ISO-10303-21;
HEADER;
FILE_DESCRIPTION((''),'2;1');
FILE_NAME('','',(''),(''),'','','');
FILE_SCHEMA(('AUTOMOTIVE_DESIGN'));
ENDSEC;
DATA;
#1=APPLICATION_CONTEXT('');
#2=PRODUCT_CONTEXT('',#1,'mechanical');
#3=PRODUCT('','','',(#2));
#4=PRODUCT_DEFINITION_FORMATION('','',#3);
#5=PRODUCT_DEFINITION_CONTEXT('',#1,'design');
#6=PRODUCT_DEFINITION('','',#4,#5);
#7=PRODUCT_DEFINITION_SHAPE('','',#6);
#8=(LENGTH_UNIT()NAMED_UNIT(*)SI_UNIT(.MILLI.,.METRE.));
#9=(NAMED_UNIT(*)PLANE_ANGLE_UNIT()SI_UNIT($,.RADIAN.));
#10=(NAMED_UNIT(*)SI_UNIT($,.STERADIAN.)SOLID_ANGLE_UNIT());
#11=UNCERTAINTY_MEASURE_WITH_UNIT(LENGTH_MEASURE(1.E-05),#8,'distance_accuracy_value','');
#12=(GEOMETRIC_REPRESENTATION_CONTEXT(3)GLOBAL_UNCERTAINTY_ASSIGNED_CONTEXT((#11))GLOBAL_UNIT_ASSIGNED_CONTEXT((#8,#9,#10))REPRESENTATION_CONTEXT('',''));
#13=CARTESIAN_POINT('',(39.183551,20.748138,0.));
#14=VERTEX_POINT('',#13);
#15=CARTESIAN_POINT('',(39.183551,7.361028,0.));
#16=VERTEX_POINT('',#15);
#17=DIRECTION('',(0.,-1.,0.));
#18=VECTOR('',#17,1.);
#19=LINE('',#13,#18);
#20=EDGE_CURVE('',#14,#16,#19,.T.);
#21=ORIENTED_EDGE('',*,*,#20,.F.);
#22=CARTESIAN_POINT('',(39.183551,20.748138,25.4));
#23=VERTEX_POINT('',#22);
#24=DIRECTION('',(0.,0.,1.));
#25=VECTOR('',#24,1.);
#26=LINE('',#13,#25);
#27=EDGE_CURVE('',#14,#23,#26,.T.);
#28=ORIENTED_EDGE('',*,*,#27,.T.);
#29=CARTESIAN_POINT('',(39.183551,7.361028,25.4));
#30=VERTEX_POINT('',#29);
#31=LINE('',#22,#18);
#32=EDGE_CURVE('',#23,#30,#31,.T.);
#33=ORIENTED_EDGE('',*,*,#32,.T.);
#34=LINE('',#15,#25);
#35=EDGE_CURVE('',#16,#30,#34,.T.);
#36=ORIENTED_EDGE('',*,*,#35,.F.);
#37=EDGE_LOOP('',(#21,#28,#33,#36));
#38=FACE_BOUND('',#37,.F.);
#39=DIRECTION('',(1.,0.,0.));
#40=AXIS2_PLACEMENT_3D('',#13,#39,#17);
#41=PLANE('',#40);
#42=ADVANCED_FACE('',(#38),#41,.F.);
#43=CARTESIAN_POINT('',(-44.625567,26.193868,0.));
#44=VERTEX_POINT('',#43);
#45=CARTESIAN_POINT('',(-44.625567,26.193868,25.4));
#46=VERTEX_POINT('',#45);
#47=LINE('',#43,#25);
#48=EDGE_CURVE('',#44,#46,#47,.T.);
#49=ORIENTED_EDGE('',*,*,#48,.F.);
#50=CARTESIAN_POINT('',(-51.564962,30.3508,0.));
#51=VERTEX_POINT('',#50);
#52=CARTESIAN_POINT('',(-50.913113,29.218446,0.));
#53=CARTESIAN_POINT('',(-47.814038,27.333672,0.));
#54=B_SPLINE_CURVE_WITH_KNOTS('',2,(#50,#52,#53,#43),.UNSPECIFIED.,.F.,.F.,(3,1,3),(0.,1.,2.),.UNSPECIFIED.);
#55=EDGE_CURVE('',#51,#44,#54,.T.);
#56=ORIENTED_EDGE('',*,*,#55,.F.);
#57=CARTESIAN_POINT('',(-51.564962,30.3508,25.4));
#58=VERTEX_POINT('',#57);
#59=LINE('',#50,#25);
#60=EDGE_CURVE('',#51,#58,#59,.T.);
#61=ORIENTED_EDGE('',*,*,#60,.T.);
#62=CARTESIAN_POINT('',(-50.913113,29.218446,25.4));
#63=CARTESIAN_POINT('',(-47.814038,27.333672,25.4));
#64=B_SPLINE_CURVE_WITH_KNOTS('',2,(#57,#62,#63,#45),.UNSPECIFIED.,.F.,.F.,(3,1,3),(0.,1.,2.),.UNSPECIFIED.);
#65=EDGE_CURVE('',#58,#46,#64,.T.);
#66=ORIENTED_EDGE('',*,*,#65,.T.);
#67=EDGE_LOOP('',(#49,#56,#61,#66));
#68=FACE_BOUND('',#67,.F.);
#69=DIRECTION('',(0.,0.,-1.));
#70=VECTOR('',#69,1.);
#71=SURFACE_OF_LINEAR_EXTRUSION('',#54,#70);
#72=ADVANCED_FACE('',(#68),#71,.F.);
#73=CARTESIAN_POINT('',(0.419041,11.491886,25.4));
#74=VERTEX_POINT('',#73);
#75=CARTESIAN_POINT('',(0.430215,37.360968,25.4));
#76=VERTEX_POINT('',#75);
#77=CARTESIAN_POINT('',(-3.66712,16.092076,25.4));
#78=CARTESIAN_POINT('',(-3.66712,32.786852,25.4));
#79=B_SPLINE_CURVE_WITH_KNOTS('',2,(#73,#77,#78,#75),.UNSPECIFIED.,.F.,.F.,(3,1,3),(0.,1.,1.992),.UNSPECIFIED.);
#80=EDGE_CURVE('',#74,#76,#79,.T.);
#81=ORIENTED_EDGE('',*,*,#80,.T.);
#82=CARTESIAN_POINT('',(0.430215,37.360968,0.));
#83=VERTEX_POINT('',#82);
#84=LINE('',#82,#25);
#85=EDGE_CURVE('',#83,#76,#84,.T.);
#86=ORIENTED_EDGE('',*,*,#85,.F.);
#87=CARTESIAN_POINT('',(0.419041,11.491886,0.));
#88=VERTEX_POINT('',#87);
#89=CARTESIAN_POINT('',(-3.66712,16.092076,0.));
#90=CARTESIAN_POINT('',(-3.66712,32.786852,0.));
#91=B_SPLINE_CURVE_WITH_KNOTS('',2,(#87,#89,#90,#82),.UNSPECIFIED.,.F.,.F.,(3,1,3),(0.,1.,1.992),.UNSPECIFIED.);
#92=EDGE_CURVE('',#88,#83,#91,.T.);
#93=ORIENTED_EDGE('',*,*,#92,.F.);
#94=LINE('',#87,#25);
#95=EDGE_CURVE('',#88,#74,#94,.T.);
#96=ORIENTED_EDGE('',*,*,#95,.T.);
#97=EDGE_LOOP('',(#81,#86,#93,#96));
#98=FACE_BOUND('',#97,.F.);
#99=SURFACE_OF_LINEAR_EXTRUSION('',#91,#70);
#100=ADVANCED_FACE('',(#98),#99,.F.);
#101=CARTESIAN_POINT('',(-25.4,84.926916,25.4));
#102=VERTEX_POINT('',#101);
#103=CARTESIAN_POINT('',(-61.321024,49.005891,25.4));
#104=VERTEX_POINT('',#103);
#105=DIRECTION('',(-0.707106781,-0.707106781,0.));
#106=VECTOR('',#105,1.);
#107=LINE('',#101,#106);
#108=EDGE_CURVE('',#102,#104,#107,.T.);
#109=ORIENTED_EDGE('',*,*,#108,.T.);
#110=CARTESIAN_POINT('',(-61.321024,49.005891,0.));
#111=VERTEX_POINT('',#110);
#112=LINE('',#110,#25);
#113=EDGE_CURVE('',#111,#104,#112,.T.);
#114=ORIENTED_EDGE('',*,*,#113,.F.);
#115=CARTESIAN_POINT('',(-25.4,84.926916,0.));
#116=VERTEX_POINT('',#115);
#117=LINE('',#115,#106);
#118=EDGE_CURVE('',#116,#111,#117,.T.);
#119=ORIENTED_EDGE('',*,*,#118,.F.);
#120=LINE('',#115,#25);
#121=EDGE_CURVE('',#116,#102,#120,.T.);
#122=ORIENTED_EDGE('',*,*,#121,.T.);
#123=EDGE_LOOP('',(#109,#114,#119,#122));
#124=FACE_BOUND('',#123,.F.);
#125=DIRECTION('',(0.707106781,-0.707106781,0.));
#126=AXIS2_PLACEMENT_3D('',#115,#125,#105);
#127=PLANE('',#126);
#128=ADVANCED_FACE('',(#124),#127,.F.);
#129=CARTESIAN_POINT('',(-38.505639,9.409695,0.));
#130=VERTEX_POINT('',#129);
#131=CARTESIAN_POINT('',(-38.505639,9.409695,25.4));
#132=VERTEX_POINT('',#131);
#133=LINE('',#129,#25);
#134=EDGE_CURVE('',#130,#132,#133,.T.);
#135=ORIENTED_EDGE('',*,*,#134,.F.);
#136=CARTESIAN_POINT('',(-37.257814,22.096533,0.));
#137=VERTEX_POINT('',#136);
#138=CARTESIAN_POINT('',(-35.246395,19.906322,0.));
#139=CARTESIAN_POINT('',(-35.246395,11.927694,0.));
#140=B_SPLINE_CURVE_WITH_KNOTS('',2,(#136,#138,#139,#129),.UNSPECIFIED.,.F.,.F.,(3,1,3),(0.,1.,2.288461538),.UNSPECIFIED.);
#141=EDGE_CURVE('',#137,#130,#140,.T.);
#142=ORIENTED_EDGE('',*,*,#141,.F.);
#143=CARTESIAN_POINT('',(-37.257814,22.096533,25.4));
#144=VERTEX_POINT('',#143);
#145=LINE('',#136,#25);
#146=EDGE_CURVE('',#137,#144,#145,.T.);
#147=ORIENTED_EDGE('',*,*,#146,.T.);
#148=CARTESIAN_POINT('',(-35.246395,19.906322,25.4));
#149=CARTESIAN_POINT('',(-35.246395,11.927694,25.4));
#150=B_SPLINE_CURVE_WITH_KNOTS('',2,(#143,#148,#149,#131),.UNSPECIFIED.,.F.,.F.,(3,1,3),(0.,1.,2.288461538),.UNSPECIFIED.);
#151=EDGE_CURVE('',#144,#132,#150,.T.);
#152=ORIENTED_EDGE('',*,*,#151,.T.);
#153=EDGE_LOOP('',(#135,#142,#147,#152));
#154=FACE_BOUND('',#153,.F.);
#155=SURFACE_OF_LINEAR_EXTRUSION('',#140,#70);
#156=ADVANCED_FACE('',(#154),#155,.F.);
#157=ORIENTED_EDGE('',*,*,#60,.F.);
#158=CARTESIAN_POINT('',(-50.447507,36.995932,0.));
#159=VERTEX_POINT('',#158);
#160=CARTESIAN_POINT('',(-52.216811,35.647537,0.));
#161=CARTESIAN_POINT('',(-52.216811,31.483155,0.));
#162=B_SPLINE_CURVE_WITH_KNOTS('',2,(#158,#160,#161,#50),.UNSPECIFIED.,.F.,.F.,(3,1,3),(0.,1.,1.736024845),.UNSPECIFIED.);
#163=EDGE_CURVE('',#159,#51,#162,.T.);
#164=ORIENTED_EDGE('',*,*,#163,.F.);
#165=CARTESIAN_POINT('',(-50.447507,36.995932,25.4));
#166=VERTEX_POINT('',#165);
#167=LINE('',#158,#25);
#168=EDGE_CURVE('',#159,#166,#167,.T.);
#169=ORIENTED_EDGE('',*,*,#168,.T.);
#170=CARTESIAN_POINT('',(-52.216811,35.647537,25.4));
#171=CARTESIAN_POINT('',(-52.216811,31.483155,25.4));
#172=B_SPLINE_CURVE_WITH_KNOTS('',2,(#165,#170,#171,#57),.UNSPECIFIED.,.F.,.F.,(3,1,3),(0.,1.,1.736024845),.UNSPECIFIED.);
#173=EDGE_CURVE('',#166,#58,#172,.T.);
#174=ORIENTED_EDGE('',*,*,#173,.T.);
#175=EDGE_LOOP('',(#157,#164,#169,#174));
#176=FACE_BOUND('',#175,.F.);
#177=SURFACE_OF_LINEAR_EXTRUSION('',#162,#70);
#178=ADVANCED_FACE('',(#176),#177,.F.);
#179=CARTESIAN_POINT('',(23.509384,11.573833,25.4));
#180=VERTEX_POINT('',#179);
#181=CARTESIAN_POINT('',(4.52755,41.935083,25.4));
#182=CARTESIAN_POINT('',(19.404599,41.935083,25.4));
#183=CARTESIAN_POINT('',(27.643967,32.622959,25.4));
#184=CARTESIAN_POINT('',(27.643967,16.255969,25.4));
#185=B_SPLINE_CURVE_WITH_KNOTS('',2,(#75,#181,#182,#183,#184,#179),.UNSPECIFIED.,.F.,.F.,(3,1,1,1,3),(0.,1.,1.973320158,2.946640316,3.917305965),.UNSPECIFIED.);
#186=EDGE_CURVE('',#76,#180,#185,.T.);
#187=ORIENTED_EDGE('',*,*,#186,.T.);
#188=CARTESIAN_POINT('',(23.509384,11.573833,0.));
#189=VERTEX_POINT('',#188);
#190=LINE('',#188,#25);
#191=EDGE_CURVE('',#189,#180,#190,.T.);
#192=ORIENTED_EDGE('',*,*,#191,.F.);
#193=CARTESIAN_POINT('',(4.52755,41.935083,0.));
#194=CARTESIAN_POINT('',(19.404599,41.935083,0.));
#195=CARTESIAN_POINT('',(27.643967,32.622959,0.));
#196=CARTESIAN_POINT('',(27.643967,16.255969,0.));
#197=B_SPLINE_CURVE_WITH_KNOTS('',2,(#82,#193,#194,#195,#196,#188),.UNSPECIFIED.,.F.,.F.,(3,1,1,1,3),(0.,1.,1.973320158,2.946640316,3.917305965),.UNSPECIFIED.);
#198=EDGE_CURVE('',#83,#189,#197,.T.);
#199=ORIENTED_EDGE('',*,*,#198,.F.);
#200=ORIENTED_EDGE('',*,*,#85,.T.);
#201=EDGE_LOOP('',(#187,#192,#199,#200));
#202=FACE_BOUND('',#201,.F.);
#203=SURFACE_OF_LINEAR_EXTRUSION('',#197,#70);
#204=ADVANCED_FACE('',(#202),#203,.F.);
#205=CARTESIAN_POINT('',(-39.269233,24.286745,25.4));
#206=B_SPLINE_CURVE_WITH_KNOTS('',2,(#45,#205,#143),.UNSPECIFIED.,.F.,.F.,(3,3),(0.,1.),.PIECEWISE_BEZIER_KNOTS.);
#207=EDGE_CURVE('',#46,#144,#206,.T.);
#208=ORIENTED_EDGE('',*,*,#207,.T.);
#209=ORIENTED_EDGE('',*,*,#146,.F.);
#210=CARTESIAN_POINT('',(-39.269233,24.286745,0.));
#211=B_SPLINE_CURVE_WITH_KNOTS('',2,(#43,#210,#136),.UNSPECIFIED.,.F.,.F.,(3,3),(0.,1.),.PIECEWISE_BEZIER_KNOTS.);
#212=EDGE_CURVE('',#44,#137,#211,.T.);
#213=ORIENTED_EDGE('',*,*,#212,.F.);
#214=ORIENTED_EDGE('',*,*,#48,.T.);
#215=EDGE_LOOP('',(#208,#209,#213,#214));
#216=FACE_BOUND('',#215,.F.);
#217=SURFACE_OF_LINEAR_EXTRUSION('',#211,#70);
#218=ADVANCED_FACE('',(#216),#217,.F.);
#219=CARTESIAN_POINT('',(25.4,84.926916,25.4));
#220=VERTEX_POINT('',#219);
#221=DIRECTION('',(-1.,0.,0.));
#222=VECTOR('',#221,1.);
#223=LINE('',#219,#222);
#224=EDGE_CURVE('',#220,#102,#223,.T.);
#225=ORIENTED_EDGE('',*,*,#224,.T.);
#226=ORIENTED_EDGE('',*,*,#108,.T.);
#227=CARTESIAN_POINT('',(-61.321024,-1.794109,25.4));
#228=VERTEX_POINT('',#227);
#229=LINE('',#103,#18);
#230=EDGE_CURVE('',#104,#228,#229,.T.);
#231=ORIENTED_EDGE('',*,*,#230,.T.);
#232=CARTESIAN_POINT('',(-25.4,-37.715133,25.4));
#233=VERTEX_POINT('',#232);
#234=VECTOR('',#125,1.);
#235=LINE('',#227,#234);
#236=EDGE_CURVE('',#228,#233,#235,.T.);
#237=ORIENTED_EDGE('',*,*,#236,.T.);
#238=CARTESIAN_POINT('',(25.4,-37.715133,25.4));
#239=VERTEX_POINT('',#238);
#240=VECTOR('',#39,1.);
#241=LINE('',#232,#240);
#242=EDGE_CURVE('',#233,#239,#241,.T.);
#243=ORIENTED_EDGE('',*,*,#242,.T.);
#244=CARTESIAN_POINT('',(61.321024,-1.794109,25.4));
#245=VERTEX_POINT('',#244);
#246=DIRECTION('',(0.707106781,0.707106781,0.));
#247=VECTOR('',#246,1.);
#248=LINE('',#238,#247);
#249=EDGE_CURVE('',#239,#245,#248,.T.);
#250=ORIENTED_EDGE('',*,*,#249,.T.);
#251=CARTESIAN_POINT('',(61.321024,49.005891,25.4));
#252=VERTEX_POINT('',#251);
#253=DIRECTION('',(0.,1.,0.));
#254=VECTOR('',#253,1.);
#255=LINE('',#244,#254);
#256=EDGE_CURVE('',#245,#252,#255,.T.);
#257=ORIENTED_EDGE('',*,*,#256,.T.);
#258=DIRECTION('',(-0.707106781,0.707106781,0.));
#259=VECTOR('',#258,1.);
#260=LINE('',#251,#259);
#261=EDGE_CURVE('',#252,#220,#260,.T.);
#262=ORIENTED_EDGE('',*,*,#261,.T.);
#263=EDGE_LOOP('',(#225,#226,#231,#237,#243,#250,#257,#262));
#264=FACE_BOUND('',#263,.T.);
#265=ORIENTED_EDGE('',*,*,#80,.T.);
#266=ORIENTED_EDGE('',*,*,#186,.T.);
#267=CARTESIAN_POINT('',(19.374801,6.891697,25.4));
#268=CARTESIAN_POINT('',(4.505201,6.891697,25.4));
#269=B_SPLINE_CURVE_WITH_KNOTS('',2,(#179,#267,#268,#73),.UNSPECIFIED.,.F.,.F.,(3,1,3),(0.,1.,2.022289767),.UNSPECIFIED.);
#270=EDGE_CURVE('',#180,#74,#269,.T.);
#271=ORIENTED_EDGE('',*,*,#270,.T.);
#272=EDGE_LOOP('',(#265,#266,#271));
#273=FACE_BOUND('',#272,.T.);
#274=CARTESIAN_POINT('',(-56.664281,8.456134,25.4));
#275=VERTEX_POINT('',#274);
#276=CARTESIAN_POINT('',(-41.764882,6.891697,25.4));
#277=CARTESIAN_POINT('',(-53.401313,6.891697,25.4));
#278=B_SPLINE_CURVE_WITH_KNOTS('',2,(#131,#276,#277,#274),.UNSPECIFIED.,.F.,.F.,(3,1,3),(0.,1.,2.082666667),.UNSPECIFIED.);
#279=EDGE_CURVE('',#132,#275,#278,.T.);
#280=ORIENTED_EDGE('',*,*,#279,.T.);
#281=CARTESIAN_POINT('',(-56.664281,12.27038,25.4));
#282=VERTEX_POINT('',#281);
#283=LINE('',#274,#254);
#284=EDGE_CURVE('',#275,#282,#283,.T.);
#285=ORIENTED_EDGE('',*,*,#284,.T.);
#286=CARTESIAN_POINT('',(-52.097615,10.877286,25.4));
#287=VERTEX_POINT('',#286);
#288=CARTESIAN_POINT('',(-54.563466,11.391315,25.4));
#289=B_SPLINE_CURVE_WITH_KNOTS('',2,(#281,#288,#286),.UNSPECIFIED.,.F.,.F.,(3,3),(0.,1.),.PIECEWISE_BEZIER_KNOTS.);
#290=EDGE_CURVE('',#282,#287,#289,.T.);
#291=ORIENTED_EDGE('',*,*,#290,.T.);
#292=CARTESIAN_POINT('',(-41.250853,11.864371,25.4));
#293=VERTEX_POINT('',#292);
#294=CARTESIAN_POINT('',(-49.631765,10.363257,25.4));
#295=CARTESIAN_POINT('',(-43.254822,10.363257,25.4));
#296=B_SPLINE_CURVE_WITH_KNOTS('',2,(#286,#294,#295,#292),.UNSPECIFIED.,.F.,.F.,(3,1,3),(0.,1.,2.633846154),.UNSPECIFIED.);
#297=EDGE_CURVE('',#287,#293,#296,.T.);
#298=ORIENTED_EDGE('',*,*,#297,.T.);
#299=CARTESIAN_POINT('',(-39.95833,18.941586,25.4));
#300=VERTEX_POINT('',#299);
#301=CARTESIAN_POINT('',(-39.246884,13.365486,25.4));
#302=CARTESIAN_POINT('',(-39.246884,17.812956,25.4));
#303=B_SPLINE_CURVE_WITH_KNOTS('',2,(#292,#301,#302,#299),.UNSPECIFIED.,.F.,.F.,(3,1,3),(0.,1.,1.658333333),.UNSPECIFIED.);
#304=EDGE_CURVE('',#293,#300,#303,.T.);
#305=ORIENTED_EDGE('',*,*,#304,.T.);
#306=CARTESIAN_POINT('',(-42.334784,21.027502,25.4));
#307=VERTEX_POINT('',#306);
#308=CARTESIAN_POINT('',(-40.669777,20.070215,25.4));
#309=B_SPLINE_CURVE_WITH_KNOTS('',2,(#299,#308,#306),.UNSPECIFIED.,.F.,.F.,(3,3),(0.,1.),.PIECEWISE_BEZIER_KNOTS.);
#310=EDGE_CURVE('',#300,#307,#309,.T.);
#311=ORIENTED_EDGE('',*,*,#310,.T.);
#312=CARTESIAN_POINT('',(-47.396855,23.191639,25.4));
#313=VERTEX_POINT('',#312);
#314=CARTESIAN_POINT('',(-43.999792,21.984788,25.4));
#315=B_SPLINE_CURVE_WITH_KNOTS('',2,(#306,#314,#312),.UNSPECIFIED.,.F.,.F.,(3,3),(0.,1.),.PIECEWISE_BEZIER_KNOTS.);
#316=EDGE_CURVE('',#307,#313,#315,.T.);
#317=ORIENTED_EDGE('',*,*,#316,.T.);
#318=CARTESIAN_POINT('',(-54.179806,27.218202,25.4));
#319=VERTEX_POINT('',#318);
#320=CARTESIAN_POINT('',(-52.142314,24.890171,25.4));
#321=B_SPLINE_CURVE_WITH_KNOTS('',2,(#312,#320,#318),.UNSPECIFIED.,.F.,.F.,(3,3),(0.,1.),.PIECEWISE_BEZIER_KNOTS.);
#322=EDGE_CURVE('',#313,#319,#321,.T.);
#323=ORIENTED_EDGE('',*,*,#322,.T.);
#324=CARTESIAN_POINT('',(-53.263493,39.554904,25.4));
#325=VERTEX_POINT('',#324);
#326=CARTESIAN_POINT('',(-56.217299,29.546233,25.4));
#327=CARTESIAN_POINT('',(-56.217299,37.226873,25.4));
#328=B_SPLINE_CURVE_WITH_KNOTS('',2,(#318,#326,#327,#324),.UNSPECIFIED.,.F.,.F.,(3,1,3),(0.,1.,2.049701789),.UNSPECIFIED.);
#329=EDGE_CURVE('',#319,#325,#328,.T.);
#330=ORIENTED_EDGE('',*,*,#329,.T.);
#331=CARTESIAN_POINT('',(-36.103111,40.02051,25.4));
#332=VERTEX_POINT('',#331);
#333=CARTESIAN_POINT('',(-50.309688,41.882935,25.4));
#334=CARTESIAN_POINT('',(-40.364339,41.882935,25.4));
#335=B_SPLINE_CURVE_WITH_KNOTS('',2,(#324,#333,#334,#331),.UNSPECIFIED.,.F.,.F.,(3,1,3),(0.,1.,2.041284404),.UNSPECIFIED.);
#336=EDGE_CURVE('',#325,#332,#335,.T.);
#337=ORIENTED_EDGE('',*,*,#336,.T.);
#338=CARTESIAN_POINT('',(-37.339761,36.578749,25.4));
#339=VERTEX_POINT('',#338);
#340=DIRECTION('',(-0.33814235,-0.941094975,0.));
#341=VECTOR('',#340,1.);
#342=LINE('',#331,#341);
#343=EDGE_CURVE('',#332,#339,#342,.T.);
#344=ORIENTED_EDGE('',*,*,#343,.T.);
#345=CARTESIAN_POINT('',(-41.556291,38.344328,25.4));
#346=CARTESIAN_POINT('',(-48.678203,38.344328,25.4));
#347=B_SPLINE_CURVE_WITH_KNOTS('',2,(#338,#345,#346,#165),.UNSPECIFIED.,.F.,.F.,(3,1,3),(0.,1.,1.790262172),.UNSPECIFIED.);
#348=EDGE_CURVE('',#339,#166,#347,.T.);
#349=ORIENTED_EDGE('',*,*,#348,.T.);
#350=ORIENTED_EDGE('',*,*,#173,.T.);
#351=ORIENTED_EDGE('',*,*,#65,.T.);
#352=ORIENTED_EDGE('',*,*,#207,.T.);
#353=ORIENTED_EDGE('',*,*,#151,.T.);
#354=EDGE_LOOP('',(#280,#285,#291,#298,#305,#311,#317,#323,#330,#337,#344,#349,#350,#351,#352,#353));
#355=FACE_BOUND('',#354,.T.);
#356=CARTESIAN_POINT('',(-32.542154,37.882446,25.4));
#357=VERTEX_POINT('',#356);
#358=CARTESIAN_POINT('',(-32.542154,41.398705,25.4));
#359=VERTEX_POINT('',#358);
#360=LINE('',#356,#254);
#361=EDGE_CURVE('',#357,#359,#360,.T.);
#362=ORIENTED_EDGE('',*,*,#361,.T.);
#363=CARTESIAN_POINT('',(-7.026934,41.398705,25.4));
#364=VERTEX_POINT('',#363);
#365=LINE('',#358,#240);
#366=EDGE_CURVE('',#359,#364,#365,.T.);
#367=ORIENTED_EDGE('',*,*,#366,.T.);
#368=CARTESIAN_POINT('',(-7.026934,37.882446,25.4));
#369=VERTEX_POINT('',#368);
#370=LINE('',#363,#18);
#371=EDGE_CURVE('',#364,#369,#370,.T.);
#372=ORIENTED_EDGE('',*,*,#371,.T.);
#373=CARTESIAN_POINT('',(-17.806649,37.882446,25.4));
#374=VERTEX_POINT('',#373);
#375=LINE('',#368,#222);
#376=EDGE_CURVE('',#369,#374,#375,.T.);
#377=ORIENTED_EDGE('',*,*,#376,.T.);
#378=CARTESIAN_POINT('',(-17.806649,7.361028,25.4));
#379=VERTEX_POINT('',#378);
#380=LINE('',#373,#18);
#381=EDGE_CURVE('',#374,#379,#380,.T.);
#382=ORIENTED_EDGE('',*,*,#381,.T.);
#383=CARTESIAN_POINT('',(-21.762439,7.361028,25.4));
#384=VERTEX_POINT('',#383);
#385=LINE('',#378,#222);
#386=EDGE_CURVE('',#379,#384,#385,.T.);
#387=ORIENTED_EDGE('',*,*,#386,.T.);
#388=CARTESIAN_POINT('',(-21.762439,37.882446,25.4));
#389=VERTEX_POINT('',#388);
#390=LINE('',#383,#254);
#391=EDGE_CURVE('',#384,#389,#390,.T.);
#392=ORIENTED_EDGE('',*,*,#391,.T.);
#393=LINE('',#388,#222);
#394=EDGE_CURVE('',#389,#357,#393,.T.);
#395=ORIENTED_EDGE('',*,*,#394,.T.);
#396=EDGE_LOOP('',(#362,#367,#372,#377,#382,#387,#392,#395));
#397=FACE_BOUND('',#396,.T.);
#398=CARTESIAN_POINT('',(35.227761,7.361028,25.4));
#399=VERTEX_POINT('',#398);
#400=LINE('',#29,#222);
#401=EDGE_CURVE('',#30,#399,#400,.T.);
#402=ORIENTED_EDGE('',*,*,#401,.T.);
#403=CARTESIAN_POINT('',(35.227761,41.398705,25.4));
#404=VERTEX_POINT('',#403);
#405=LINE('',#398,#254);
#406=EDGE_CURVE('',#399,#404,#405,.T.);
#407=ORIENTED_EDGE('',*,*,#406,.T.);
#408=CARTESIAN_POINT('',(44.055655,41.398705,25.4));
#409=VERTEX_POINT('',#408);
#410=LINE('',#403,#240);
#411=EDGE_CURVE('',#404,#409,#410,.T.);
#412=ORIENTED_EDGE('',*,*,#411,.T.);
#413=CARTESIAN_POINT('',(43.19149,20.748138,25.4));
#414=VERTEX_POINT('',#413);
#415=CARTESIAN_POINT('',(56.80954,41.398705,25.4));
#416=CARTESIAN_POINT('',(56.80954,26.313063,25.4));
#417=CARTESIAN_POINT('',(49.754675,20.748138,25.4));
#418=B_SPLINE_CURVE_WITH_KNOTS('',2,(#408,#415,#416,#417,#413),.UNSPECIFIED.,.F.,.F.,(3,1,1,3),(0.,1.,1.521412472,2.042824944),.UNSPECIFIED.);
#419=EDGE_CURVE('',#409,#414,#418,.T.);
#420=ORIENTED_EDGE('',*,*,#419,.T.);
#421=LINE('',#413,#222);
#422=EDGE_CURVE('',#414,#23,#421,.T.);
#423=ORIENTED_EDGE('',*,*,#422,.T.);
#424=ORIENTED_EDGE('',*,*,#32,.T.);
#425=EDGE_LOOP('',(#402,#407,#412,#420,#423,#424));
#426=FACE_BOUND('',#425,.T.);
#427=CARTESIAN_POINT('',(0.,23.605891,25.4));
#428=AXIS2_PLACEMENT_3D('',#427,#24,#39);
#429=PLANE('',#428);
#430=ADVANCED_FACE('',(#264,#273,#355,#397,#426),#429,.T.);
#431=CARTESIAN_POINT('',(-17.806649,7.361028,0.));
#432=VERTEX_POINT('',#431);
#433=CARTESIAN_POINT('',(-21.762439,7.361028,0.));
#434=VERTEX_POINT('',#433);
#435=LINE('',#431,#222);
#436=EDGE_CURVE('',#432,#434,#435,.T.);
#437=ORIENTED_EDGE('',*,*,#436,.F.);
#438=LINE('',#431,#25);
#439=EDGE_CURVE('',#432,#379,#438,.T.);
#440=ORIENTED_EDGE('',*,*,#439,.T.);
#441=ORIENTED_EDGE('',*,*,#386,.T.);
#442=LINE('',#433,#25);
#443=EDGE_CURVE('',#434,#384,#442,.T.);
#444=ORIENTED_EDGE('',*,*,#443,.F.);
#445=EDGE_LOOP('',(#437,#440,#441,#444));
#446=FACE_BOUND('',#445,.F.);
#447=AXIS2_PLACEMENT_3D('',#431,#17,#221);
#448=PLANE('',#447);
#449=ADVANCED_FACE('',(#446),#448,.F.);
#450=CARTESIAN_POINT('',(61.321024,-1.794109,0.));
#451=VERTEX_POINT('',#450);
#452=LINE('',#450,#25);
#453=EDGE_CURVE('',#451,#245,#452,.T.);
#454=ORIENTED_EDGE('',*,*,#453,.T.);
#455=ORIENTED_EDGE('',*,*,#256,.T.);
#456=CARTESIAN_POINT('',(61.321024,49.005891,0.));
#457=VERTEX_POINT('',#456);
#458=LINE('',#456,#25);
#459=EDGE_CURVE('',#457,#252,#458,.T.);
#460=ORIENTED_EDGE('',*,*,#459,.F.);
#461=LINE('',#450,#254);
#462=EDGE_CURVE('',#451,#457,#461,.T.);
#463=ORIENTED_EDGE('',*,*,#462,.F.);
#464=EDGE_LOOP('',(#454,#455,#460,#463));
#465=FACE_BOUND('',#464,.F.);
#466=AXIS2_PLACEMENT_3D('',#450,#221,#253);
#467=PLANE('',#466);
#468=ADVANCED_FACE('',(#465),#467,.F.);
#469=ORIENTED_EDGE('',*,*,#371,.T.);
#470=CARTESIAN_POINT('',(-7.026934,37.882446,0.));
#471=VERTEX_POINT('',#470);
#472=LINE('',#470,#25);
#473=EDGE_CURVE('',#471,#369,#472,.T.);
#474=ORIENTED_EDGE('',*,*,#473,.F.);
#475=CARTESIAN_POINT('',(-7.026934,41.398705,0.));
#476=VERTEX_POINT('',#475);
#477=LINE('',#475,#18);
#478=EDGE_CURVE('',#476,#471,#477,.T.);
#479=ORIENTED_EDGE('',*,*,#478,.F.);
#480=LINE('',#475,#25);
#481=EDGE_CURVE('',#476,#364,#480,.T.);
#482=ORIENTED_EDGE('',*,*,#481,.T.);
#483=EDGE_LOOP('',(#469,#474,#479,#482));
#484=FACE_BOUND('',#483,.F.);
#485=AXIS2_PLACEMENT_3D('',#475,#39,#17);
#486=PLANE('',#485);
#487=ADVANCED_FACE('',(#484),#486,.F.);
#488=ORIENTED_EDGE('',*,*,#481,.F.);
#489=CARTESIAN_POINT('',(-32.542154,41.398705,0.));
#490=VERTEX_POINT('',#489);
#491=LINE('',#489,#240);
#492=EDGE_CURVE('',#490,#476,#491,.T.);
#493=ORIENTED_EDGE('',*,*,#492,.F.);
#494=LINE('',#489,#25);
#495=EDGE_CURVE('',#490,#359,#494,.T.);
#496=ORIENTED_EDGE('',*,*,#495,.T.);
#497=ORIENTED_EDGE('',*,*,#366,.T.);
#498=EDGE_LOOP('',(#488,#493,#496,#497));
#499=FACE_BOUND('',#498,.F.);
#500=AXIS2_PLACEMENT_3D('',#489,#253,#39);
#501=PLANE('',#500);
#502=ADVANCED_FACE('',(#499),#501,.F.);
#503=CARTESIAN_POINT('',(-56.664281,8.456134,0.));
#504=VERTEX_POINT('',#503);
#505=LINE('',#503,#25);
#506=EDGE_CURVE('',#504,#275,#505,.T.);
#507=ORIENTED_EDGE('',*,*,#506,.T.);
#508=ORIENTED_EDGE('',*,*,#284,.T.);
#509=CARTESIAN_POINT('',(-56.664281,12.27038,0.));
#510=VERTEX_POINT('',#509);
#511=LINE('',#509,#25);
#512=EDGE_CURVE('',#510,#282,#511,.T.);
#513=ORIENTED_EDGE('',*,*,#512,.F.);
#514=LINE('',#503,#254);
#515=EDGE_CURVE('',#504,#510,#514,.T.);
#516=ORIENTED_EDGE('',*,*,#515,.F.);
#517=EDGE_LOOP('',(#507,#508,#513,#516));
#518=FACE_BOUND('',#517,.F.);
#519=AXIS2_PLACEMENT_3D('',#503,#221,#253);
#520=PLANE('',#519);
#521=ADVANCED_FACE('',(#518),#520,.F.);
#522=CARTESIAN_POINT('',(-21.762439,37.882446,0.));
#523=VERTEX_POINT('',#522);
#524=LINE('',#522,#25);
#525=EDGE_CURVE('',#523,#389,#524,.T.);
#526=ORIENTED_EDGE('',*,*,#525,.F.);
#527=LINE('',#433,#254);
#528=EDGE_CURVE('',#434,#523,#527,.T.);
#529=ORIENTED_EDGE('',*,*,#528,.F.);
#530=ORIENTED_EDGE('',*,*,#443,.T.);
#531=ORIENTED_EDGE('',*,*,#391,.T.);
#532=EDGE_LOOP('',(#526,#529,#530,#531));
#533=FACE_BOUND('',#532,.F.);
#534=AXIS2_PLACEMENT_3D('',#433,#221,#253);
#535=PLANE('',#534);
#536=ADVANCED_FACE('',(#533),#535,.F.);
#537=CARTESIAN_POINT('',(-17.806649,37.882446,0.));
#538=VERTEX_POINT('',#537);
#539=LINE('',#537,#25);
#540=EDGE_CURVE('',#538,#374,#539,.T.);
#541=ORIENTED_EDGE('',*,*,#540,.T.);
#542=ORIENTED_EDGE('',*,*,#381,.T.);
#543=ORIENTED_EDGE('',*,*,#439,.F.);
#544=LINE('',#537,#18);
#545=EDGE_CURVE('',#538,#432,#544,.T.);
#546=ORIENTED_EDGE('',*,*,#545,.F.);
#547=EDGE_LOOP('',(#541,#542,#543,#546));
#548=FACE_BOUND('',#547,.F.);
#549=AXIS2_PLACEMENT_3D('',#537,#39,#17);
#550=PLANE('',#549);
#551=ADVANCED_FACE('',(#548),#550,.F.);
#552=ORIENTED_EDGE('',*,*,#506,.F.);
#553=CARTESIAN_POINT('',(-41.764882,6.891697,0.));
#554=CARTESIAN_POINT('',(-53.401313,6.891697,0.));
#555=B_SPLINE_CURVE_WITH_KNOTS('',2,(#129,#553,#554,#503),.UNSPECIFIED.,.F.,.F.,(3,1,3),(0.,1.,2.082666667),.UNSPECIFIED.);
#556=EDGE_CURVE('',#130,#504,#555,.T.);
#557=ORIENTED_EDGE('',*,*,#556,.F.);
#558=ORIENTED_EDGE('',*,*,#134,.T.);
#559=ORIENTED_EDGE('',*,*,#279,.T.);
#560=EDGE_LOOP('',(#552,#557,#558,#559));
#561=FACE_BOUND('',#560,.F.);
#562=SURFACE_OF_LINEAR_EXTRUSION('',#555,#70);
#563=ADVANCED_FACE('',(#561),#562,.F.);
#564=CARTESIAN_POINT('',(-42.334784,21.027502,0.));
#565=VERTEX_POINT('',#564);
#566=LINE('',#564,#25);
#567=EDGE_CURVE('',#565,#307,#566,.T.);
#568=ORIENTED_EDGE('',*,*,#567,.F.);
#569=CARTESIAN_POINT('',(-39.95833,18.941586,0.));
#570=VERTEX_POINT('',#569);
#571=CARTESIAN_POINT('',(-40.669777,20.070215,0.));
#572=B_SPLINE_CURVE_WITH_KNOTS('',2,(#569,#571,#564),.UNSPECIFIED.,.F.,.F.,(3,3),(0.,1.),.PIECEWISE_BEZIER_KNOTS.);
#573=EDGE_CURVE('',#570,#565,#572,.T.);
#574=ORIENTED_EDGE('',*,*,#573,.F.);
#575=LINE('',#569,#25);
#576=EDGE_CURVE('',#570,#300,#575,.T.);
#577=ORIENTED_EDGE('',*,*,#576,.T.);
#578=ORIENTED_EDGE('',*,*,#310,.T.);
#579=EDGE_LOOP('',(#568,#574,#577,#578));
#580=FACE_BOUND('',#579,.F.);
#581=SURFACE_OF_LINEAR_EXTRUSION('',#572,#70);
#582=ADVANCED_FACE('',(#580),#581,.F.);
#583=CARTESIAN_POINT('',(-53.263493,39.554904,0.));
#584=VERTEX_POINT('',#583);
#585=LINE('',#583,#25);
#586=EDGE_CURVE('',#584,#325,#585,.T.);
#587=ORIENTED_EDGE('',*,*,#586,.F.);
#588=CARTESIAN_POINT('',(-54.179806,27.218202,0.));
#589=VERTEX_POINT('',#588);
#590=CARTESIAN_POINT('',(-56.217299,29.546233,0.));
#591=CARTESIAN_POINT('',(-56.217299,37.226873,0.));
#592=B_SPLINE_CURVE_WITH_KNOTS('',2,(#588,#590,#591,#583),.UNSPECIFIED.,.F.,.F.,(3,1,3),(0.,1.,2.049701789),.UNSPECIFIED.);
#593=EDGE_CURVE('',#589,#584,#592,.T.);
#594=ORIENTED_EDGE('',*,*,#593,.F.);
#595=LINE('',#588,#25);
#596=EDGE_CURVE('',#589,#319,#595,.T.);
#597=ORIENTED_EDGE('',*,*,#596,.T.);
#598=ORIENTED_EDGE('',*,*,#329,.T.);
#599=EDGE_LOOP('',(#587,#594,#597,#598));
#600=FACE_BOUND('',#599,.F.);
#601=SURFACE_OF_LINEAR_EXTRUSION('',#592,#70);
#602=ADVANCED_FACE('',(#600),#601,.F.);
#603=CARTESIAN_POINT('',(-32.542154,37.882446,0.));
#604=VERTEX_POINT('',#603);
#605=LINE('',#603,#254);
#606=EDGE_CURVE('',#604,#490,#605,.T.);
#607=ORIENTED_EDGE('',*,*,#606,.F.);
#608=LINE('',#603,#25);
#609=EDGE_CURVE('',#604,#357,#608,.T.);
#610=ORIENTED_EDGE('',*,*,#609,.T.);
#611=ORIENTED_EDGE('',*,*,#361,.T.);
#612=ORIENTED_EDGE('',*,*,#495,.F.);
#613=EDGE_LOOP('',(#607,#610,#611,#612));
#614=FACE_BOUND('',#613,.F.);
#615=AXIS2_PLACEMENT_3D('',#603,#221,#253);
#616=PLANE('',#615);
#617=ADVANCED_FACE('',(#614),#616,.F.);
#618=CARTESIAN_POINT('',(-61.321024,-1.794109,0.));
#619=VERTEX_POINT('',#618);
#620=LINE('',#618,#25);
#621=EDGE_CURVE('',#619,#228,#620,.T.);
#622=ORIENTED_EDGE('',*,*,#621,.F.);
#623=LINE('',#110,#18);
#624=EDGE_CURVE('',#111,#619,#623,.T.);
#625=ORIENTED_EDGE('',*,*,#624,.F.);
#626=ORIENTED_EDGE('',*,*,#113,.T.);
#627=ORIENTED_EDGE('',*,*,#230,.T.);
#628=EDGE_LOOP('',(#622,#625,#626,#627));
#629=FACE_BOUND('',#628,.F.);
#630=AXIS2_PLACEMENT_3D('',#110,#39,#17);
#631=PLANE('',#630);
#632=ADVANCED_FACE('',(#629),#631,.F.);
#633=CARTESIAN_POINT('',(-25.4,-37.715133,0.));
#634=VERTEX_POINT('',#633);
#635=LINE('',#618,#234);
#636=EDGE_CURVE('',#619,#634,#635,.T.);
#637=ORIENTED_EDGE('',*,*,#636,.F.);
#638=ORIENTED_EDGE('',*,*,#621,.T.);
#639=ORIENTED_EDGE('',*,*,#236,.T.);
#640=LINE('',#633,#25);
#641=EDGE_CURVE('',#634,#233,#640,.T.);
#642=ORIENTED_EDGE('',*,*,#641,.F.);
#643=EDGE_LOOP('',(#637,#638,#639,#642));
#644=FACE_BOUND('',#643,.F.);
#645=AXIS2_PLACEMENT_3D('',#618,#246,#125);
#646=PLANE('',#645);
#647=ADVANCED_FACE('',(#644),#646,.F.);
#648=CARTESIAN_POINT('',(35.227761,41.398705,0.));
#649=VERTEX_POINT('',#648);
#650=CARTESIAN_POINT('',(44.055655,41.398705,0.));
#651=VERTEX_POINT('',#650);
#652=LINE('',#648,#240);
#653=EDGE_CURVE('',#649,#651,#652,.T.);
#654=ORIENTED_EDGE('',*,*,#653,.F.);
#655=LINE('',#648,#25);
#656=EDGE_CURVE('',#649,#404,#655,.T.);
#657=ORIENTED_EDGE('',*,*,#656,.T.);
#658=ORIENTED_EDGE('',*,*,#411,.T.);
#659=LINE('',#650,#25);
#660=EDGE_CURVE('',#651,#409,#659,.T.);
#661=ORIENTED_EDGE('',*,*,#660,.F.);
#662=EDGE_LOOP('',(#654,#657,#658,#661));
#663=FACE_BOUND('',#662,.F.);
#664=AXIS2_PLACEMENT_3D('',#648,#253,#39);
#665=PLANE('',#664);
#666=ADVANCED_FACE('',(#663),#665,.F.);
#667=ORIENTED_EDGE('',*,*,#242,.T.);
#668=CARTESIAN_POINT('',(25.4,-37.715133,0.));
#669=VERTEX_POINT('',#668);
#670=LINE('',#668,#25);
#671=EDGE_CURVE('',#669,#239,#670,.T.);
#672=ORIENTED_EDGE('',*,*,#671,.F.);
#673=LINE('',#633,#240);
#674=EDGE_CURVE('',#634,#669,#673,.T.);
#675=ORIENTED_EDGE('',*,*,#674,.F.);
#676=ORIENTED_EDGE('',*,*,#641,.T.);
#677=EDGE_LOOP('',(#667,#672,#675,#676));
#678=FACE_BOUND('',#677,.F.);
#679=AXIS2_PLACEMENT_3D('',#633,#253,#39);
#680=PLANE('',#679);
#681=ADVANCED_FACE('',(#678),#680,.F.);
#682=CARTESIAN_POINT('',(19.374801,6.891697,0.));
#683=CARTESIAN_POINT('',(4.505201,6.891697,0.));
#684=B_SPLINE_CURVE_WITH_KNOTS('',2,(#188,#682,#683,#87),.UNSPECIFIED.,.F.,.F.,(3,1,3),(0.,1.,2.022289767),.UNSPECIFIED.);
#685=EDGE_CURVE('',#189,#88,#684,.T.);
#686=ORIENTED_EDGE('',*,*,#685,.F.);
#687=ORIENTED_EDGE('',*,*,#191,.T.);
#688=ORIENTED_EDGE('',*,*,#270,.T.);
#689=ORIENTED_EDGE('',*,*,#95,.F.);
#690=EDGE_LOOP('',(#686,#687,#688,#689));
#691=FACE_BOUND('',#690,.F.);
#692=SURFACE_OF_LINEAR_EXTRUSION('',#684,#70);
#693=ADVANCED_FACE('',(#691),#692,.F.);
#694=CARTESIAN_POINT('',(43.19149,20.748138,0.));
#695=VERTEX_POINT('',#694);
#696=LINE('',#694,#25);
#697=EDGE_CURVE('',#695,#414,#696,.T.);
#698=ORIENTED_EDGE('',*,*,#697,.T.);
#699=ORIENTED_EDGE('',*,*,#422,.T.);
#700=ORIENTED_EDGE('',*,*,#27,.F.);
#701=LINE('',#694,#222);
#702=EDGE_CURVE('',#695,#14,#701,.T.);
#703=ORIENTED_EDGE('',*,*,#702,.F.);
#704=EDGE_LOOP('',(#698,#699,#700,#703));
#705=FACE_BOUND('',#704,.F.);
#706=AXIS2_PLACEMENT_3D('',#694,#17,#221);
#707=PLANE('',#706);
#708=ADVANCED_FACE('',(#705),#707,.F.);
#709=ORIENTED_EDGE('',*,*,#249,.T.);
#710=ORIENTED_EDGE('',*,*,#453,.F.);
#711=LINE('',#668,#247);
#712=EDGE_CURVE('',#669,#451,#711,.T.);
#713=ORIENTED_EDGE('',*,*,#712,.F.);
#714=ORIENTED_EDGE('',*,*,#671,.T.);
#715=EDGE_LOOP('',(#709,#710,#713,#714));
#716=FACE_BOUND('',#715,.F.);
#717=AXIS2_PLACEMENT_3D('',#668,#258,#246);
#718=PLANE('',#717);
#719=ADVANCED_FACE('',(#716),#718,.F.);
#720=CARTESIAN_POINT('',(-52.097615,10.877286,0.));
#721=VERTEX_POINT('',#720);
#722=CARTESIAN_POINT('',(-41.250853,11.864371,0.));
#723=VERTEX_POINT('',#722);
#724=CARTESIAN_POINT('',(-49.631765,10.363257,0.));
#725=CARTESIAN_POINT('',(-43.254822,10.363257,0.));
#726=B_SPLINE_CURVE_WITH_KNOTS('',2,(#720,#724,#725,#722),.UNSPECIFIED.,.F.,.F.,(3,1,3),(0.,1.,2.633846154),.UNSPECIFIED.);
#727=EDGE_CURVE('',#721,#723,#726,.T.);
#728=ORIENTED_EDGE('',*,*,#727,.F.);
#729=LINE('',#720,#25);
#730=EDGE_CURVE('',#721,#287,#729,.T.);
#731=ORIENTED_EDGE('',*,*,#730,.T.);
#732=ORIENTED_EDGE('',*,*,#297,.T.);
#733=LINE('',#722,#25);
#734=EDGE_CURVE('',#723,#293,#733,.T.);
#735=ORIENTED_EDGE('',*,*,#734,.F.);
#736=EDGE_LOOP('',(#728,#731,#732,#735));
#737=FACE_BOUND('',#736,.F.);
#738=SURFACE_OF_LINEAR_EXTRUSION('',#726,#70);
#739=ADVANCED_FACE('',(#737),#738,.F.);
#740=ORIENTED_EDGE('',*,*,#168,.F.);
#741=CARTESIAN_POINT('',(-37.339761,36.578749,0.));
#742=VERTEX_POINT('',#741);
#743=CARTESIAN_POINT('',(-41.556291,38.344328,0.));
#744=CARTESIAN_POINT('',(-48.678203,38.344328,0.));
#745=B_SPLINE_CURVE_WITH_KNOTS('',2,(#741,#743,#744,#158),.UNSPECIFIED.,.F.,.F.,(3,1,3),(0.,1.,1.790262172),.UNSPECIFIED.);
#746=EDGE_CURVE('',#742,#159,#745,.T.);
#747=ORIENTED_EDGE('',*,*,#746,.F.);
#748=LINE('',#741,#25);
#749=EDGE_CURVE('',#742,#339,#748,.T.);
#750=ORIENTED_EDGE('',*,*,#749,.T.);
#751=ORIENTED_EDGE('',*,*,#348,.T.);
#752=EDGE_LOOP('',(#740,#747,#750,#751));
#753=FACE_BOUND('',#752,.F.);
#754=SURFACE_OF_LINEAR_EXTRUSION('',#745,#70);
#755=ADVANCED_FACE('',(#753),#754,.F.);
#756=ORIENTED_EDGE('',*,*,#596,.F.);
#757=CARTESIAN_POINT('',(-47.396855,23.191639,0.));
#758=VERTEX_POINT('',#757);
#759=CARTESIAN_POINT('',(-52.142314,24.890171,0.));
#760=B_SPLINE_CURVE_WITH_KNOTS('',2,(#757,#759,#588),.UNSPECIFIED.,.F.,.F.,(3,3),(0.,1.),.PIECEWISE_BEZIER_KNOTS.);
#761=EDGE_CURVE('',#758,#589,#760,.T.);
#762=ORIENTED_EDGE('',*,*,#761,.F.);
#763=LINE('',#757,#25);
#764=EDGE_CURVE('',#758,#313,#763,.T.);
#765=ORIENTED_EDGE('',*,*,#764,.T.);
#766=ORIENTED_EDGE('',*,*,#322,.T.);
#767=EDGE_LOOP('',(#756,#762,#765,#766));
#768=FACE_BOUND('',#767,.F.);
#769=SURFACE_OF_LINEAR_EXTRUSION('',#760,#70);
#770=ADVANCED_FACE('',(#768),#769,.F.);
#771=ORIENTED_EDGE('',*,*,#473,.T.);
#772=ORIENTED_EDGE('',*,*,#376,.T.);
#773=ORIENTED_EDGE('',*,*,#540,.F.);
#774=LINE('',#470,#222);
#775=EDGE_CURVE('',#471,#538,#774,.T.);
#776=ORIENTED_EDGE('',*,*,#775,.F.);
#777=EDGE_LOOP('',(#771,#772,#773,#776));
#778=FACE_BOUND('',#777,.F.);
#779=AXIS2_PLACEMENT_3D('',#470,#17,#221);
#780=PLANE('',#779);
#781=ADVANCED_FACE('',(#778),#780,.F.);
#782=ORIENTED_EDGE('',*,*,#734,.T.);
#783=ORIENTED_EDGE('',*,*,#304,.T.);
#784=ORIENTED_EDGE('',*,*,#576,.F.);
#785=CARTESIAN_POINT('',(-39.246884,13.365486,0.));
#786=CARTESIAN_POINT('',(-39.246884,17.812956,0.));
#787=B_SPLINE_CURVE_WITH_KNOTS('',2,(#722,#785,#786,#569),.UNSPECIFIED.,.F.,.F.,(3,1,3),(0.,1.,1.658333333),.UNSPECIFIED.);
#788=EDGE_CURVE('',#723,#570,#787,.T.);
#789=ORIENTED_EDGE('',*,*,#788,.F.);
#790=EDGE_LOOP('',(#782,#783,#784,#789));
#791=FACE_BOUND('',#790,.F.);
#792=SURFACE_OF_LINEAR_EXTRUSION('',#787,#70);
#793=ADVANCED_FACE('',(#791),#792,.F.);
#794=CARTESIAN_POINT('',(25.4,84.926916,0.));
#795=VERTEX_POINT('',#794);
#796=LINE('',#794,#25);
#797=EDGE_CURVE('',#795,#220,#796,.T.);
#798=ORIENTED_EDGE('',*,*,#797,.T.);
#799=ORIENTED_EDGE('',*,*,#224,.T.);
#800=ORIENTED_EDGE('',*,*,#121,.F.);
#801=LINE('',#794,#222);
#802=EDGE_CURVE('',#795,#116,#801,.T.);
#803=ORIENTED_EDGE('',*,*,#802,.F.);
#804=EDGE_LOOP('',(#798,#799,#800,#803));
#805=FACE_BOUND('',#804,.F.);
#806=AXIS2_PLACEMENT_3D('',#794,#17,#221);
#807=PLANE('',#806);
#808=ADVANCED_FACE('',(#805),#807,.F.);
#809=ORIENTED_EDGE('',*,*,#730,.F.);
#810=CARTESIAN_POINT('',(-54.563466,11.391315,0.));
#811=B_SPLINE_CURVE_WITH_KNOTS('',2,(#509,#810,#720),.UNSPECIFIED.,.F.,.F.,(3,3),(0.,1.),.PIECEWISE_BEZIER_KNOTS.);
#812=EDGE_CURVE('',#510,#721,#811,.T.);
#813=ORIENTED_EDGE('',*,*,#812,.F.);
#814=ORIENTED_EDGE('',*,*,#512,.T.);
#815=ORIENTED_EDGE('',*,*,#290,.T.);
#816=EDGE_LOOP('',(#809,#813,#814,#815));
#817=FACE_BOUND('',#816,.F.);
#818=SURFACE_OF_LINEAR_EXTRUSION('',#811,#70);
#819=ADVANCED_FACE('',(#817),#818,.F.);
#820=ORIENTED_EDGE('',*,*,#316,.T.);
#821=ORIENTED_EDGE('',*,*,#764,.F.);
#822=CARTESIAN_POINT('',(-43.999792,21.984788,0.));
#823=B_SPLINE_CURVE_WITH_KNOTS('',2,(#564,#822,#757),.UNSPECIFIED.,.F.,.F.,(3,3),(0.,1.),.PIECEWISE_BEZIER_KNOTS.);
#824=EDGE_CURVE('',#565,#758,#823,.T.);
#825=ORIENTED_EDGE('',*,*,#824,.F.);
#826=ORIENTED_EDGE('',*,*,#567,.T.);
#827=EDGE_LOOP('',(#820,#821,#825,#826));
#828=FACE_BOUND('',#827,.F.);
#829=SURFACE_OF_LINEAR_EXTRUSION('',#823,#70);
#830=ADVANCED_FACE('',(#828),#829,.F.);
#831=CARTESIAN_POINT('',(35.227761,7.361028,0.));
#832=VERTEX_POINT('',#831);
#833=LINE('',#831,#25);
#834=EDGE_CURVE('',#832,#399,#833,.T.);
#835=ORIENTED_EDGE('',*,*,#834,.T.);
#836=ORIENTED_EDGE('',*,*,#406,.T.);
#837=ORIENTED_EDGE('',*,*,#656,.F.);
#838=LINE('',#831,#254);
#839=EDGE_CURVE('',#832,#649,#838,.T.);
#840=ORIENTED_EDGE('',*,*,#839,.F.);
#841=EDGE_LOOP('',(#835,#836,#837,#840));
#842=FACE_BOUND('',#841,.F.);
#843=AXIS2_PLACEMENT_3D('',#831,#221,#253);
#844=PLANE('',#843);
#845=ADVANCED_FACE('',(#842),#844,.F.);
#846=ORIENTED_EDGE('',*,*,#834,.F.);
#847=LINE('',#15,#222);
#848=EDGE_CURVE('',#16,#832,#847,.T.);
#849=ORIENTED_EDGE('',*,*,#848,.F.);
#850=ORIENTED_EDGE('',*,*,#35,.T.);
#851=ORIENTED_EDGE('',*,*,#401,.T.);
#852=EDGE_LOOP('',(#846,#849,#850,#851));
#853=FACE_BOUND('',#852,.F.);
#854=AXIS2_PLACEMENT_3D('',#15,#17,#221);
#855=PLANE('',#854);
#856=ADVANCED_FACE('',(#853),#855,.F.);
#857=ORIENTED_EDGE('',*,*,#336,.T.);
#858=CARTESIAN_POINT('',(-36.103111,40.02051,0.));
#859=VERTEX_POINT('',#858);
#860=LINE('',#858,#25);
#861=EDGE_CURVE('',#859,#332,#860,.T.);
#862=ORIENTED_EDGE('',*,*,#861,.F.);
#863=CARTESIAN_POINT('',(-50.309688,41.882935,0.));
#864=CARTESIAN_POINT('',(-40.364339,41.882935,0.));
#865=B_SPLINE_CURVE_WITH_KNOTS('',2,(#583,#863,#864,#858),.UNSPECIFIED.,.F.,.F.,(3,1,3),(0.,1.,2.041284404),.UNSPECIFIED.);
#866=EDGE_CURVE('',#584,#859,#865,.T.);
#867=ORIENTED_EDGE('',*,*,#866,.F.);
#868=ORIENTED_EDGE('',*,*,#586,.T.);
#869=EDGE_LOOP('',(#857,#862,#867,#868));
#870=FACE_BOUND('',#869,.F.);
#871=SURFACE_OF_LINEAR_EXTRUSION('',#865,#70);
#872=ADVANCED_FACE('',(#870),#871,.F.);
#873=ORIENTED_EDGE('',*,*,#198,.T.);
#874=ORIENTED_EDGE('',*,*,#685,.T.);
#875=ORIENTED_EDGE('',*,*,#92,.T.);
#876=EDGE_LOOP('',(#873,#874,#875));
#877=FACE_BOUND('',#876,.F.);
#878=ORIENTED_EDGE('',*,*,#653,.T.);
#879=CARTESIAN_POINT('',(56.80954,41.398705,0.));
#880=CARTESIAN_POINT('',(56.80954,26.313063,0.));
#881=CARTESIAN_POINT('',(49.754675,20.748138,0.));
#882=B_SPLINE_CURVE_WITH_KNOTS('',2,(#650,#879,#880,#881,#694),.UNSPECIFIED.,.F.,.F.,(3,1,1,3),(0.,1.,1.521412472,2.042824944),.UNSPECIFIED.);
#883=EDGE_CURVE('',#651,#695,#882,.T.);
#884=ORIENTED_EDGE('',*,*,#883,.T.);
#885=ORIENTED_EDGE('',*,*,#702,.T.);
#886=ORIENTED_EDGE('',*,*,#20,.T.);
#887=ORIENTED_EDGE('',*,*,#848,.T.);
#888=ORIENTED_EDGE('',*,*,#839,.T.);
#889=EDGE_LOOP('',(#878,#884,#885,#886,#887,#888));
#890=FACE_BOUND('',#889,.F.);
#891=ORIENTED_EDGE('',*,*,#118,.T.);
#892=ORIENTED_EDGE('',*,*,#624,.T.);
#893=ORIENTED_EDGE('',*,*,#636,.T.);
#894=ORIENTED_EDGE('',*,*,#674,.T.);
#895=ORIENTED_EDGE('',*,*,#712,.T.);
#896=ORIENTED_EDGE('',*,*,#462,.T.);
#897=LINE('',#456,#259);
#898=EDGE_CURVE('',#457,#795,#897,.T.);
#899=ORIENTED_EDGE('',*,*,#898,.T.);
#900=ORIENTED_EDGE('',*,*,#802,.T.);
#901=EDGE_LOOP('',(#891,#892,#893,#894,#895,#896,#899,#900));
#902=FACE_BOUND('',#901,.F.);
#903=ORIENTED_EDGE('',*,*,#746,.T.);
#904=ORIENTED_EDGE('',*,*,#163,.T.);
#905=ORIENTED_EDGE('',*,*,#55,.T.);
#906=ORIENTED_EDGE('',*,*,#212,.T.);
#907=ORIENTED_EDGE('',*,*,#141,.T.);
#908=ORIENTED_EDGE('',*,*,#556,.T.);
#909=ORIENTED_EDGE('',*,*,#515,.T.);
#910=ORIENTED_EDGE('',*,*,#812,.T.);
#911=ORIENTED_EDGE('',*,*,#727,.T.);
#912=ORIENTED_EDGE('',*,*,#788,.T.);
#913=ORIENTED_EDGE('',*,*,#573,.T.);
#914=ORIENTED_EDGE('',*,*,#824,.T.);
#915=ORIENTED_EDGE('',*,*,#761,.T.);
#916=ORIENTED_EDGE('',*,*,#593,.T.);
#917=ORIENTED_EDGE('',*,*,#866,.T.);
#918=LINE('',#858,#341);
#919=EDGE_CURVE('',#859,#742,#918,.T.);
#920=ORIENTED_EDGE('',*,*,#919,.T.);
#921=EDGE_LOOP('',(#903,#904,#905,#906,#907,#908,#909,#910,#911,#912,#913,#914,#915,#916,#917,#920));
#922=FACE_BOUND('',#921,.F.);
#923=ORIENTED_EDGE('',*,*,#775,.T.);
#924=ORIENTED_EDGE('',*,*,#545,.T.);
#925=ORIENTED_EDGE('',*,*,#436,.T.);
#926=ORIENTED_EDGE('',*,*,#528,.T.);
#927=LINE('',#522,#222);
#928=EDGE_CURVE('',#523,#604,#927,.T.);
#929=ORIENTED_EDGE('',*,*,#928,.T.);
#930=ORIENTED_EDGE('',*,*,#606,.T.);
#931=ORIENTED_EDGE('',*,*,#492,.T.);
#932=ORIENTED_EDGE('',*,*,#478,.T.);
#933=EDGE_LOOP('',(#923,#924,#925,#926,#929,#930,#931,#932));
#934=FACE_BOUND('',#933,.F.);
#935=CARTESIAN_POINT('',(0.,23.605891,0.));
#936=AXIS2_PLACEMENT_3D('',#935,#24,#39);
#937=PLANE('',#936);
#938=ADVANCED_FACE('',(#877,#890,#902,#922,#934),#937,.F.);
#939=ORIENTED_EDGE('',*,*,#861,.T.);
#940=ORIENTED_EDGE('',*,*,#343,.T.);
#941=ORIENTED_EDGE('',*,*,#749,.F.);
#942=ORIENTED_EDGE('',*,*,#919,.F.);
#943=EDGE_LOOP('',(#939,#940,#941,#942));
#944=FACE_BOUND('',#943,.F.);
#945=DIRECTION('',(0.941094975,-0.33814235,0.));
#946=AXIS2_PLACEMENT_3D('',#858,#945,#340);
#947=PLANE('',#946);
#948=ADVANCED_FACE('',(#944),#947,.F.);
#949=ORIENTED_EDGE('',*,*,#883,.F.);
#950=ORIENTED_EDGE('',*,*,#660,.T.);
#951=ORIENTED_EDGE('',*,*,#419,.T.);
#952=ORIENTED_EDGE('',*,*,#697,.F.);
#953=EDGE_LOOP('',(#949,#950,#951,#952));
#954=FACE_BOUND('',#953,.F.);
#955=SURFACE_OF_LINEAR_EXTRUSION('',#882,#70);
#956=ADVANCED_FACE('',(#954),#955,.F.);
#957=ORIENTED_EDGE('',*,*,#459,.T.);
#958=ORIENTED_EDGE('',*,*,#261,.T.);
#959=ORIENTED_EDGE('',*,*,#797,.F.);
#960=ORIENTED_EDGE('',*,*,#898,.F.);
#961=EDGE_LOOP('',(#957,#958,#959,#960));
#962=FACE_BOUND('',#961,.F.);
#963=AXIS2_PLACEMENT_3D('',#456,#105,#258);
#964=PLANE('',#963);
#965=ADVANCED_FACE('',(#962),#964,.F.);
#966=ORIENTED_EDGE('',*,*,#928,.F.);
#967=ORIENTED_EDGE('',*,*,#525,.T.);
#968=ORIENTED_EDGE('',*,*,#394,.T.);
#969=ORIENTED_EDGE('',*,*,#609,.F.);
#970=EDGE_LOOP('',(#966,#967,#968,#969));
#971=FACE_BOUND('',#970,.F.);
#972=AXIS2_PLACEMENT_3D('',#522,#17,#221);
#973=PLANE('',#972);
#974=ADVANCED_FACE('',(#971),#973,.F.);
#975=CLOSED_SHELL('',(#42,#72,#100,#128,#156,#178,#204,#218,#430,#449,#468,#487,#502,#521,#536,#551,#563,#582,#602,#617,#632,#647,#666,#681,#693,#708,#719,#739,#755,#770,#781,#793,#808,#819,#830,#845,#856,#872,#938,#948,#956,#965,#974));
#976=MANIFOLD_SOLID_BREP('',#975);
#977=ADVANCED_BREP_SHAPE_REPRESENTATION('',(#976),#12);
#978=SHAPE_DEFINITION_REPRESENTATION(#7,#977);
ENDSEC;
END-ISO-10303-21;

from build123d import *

# Parameters (mm, degrees)
F1_DEPTH = 25.4


with BuildPart() as f1:
    # F0 (on Top) → F1 (new body)
    with BuildSketch(Plane.XY):
        Polygon((-25.4, -37.7151333554), (25.4, -37.7151333554), (61.3210244843, -1.7941088711), (61.3210244843, 49.0058911289), (25.4, 84.9269156132), (-25.4, 84.9269156132), (-61.3210244843, 49.0058911289), (-61.3210244843, -1.7941088711), align=None)
        with BuildLine():
            add(Edge.make_bspline(
                [(-37.2578142017, 22.0965334461), (-35.2463953643, 19.9063218232), (-35.2463953643, 16.4198625051)],
                knots=[0, 0, 0, 1, 1, 1], degree=2))
            add(Edge.make_bspline(
                [(-35.2463953643, 16.4198625051), (-35.2463953643, 11.9276937683), (-38.5056388508, 9.4096953719)],
                knots=[0, 0, 0, 1, 1, 1], degree=2))
            add(Edge.make_bspline(
                [(-38.5056388508, 9.4096953719), (-41.7648823372, 6.8916969755), (-47.3521568855, 6.8916969755)],
                knots=[0, 0, 0, 1, 1, 1], degree=2))
            add(Edge.make_bspline(
                [(-47.3521568855, 6.8916969755), (-53.4013127963, 6.8916969755), (-56.6642811325, 8.456133849)],
                knots=[0, 0, 0, 1, 1, 1], degree=2))
            Line((-56.6642811325, 8.456133849), (-56.6642811325, 12.2703799406))
            add(Edge.make_bspline(
                [(-56.6642811325, 12.2703799406), (-54.5634659023, 11.3913154117), (-52.0976154017, 10.8772861533)],
                knots=[0, 0, 0, 1, 1, 1], degree=2))
            add(Edge.make_bspline(
                [(-52.0976154017, 10.8772861533), (-49.6317649011, 10.3632568948), (-47.2106125969, 10.3632568948)],
                knots=[0, 0, 0, 1, 1, 1], degree=2))
            add(Edge.make_bspline(
                [(-47.2106125969, 10.3632568948), (-43.2548222168, 10.3632568948), (-41.2508530788, 11.8643713235)],
                knots=[0, 0, 0, 1, 1, 1], degree=2))
            add(Edge.make_bspline(
                [(-41.2508530788, 11.8643713235), (-39.2468839409, 13.3654857521), (-39.2468839409, 16.0473775352)],
                knots=[0, 0, 0, 1, 1, 1], degree=2))
            add(Edge.make_bspline(
                [(-39.2468839409, 16.0473775352), (-39.2468839409, 17.8129562924), (-39.9583302333, 18.9415857512)],
                knots=[0, 0, 0, 1, 1, 1], degree=2))
            add(Edge.make_bspline(
                [(-39.9583302333, 18.9415857512), (-40.6697765258, 20.0702152099), (-42.3347843412, 21.0275015825)],
                knots=[0, 0, 0, 1, 1, 1], degree=2))
            add(Edge.make_bspline(
                [(-42.3347843412, 21.0275015825), (-43.9997921565, 21.9847879551), (-47.3968550818, 23.1916392575)],
                knots=[0, 0, 0, 1, 1, 1], degree=2))
            add(Edge.make_bspline(
                [(-47.3968550818, 23.1916392575), (-52.1423135981, 24.8901707202), (-54.1798063834, 27.2182017819)],
                knots=[0, 0, 0, 1, 1, 1], degree=2))
            add(Edge.make_bspline(
                [(-54.1798063834, 27.2182017819), (-56.2172991686, 29.5462328437), (-56.2172991686, 33.2934316407)],
                knots=[0, 0, 0, 1, 1, 1], degree=2))
            add(Edge.make_bspline(
                [(-56.2172991686, 33.2934316407), (-56.2172991686, 37.2268729226), (-53.2634933575, 39.5549039844)],
                knots=[0, 0, 0, 1, 1, 1], degree=2))
            add(Edge.make_bspline(
                [(-53.2634933575, 39.5549039844), (-50.3096875463, 41.8829350461), (-45.4375841403, 41.8829350461)],
                knots=[0, 0, 0, 1, 1, 1], degree=2))
            add(Edge.make_bspline(
                [(-45.4375841403, 41.8829350461), (-40.3643388505, 41.8829350461), (-36.1031107951, 40.0205101967)],
                knots=[0, 0, 0, 1, 1, 1], degree=2))
            Line((-36.1031107951, 40.0205101967), (-37.3397608951, 36.578749075))
            add(Edge.make_bspline(
                [(-37.3397608951, 36.578749075), (-41.5562907541, 38.3443278323), (-45.5344302324, 38.3443278323)],
                knots=[0, 0, 0, 1, 1, 1], degree=2))
            add(Edge.make_bspline(
                [(-45.5344302324, 38.3443278323), (-48.6782033782, 38.3443278323), (-50.4475069852, 36.9959322413)],
                knots=[0, 0, 0, 1, 1, 1], degree=2))
            add(Edge.make_bspline(
                [(-50.4475069852, 36.9959322413), (-52.2168105921, 35.6475366503), (-52.2168105921, 33.2487334443)],
                knots=[0, 0, 0, 1, 1, 1], degree=2))
            add(Edge.make_bspline(
                [(-52.2168105921, 33.2487334443), (-52.2168105921, 31.4831546871), (-51.5649618948, 30.3508003786)],
                knots=[0, 0, 0, 1, 1, 1], degree=2))
            add(Edge.make_bspline(
                [(-51.5649618948, 30.3508003786), (-50.9131131975, 29.2184460702), (-49.3635757228, 28.2760590964)],
                knots=[0, 0, 0, 1, 1, 1], degree=2))
            add(Edge.make_bspline(
                [(-49.3635757228, 28.2760590964), (-47.8140382481, 27.3336721226), (-44.6255669059, 26.1938681148)],
                knots=[0, 0, 0, 1, 1, 1], degree=2))
            add(Edge.make_bspline(
                [(-44.6255669059, 26.1938681148), (-39.269233039, 24.286745069), (-37.2578142017, 22.0965334461)],
                knots=[0, 0, 0, 1, 1, 1], degree=2))
        make_face(mode=Mode.SUBTRACT)
        Polygon((-17.8066490745, 37.8824464696), (-17.8066490745, 7.3610280376), (-21.7624394547, 7.3610280376), (-21.7624394547, 37.8824464696), (-32.542154483, 37.8824464696), (-32.542154483, 41.3987045853), (-7.0269340462, 41.3987045853), (-7.0269340462, 37.8824464696), align=None, mode=Mode.SUBTRACT)
        with BuildLine():
            add(Edge.make_bspline(
                [(23.5242831834, 37.2790208184), (27.6439669503, 32.6229586949), (27.6439669503, 24.4282893575)],
                knots=[0, 0, 0, 1, 1, 1], degree=2))
            add(Edge.make_bspline(
                [(27.6439669503, 24.4282893575), (27.6439669503, 16.2559691183), (23.5093837846, 11.5738330469)],
                knots=[0, 0, 0, 1, 1, 1], degree=2))
            add(Edge.make_bspline(
                [(23.5093837846, 11.5738330469), (19.374800619, 6.8916969755), (12.0219473135, 6.8916969755)],
                knots=[0, 0, 0, 1, 1, 1], degree=2))
            add(Edge.make_bspline(
                [(12.0219473135, 6.8916969755), (4.5052006213, 6.8916969755), (0.4190405017, 11.4918863536)],
                knots=[0, 0, 0, 1, 1, 1], degree=2))
            add(Edge.make_bspline(
                [(0.4190405017, 11.4918863536), (-3.6671196179, 16.0920757316), (-3.6671196179, 24.4729875539)],
                knots=[0, 0, 0, 1, 1, 1], degree=2))
            add(Edge.make_bspline(
                [(-3.6671196179, 24.4729875539), (-3.6671196179, 32.7868520816), (0.4302150508, 37.3609675118)],
                knots=[0, 0, 0, 1, 1, 1], degree=2))
            add(Edge.make_bspline(
                [(0.4302150508, 37.3609675118), (4.5275497195, 41.9350829419), (12.0666455099, 41.9350829419)],
                knots=[0, 0, 0, 1, 1, 1], degree=2))
            add(Edge.make_bspline(
                [(12.0666455099, 41.9350829419), (19.4045994165, 41.9350829419), (23.5242831834, 37.2790208184)],
                knots=[0, 0, 0, 1, 1, 1], degree=2))
        make_face(mode=Mode.SUBTRACT)
        with BuildLine():
            add(Edge.make_bspline(
                [(44.0556547232, 41.3987045853), (56.809540092, 41.3987045853), (56.809540092, 31.4831546871)],
                knots=[0, 0, 0, 1, 1, 1], degree=2))
            add(Edge.make_bspline(
                [(56.809540092, 31.4831546871), (56.809540092, 26.3130633051), (53.2821074272, 23.5306005801)],
                knots=[0, 0, 0, 1, 1, 1], degree=2))
            add(Edge.make_bspline(
                [(53.2821074272, 23.5306005801), (49.7546747624, 20.7481378551), (43.1914895931, 20.7481378551)],
                knots=[0, 0, 0, 1, 1, 1], degree=2))
            Line((43.1914895931, 20.7481378551), (39.1835513172, 20.7481378551))
            Line((39.1835513172, 20.7481378551), (39.1835513172, 7.3610280376))
            Line((39.1835513172, 7.3610280376), (35.2277609371, 7.3610280376))
            Line((35.2277609371, 7.3610280376), (35.2277609371, 41.3987045853))
            Line((35.2277609371, 41.3987045853), (44.0556547232, 41.3987045853))
        make_face(mode=Mode.SUBTRACT)
    extrude(amount=F1_DEPTH)


solid = f1.part
